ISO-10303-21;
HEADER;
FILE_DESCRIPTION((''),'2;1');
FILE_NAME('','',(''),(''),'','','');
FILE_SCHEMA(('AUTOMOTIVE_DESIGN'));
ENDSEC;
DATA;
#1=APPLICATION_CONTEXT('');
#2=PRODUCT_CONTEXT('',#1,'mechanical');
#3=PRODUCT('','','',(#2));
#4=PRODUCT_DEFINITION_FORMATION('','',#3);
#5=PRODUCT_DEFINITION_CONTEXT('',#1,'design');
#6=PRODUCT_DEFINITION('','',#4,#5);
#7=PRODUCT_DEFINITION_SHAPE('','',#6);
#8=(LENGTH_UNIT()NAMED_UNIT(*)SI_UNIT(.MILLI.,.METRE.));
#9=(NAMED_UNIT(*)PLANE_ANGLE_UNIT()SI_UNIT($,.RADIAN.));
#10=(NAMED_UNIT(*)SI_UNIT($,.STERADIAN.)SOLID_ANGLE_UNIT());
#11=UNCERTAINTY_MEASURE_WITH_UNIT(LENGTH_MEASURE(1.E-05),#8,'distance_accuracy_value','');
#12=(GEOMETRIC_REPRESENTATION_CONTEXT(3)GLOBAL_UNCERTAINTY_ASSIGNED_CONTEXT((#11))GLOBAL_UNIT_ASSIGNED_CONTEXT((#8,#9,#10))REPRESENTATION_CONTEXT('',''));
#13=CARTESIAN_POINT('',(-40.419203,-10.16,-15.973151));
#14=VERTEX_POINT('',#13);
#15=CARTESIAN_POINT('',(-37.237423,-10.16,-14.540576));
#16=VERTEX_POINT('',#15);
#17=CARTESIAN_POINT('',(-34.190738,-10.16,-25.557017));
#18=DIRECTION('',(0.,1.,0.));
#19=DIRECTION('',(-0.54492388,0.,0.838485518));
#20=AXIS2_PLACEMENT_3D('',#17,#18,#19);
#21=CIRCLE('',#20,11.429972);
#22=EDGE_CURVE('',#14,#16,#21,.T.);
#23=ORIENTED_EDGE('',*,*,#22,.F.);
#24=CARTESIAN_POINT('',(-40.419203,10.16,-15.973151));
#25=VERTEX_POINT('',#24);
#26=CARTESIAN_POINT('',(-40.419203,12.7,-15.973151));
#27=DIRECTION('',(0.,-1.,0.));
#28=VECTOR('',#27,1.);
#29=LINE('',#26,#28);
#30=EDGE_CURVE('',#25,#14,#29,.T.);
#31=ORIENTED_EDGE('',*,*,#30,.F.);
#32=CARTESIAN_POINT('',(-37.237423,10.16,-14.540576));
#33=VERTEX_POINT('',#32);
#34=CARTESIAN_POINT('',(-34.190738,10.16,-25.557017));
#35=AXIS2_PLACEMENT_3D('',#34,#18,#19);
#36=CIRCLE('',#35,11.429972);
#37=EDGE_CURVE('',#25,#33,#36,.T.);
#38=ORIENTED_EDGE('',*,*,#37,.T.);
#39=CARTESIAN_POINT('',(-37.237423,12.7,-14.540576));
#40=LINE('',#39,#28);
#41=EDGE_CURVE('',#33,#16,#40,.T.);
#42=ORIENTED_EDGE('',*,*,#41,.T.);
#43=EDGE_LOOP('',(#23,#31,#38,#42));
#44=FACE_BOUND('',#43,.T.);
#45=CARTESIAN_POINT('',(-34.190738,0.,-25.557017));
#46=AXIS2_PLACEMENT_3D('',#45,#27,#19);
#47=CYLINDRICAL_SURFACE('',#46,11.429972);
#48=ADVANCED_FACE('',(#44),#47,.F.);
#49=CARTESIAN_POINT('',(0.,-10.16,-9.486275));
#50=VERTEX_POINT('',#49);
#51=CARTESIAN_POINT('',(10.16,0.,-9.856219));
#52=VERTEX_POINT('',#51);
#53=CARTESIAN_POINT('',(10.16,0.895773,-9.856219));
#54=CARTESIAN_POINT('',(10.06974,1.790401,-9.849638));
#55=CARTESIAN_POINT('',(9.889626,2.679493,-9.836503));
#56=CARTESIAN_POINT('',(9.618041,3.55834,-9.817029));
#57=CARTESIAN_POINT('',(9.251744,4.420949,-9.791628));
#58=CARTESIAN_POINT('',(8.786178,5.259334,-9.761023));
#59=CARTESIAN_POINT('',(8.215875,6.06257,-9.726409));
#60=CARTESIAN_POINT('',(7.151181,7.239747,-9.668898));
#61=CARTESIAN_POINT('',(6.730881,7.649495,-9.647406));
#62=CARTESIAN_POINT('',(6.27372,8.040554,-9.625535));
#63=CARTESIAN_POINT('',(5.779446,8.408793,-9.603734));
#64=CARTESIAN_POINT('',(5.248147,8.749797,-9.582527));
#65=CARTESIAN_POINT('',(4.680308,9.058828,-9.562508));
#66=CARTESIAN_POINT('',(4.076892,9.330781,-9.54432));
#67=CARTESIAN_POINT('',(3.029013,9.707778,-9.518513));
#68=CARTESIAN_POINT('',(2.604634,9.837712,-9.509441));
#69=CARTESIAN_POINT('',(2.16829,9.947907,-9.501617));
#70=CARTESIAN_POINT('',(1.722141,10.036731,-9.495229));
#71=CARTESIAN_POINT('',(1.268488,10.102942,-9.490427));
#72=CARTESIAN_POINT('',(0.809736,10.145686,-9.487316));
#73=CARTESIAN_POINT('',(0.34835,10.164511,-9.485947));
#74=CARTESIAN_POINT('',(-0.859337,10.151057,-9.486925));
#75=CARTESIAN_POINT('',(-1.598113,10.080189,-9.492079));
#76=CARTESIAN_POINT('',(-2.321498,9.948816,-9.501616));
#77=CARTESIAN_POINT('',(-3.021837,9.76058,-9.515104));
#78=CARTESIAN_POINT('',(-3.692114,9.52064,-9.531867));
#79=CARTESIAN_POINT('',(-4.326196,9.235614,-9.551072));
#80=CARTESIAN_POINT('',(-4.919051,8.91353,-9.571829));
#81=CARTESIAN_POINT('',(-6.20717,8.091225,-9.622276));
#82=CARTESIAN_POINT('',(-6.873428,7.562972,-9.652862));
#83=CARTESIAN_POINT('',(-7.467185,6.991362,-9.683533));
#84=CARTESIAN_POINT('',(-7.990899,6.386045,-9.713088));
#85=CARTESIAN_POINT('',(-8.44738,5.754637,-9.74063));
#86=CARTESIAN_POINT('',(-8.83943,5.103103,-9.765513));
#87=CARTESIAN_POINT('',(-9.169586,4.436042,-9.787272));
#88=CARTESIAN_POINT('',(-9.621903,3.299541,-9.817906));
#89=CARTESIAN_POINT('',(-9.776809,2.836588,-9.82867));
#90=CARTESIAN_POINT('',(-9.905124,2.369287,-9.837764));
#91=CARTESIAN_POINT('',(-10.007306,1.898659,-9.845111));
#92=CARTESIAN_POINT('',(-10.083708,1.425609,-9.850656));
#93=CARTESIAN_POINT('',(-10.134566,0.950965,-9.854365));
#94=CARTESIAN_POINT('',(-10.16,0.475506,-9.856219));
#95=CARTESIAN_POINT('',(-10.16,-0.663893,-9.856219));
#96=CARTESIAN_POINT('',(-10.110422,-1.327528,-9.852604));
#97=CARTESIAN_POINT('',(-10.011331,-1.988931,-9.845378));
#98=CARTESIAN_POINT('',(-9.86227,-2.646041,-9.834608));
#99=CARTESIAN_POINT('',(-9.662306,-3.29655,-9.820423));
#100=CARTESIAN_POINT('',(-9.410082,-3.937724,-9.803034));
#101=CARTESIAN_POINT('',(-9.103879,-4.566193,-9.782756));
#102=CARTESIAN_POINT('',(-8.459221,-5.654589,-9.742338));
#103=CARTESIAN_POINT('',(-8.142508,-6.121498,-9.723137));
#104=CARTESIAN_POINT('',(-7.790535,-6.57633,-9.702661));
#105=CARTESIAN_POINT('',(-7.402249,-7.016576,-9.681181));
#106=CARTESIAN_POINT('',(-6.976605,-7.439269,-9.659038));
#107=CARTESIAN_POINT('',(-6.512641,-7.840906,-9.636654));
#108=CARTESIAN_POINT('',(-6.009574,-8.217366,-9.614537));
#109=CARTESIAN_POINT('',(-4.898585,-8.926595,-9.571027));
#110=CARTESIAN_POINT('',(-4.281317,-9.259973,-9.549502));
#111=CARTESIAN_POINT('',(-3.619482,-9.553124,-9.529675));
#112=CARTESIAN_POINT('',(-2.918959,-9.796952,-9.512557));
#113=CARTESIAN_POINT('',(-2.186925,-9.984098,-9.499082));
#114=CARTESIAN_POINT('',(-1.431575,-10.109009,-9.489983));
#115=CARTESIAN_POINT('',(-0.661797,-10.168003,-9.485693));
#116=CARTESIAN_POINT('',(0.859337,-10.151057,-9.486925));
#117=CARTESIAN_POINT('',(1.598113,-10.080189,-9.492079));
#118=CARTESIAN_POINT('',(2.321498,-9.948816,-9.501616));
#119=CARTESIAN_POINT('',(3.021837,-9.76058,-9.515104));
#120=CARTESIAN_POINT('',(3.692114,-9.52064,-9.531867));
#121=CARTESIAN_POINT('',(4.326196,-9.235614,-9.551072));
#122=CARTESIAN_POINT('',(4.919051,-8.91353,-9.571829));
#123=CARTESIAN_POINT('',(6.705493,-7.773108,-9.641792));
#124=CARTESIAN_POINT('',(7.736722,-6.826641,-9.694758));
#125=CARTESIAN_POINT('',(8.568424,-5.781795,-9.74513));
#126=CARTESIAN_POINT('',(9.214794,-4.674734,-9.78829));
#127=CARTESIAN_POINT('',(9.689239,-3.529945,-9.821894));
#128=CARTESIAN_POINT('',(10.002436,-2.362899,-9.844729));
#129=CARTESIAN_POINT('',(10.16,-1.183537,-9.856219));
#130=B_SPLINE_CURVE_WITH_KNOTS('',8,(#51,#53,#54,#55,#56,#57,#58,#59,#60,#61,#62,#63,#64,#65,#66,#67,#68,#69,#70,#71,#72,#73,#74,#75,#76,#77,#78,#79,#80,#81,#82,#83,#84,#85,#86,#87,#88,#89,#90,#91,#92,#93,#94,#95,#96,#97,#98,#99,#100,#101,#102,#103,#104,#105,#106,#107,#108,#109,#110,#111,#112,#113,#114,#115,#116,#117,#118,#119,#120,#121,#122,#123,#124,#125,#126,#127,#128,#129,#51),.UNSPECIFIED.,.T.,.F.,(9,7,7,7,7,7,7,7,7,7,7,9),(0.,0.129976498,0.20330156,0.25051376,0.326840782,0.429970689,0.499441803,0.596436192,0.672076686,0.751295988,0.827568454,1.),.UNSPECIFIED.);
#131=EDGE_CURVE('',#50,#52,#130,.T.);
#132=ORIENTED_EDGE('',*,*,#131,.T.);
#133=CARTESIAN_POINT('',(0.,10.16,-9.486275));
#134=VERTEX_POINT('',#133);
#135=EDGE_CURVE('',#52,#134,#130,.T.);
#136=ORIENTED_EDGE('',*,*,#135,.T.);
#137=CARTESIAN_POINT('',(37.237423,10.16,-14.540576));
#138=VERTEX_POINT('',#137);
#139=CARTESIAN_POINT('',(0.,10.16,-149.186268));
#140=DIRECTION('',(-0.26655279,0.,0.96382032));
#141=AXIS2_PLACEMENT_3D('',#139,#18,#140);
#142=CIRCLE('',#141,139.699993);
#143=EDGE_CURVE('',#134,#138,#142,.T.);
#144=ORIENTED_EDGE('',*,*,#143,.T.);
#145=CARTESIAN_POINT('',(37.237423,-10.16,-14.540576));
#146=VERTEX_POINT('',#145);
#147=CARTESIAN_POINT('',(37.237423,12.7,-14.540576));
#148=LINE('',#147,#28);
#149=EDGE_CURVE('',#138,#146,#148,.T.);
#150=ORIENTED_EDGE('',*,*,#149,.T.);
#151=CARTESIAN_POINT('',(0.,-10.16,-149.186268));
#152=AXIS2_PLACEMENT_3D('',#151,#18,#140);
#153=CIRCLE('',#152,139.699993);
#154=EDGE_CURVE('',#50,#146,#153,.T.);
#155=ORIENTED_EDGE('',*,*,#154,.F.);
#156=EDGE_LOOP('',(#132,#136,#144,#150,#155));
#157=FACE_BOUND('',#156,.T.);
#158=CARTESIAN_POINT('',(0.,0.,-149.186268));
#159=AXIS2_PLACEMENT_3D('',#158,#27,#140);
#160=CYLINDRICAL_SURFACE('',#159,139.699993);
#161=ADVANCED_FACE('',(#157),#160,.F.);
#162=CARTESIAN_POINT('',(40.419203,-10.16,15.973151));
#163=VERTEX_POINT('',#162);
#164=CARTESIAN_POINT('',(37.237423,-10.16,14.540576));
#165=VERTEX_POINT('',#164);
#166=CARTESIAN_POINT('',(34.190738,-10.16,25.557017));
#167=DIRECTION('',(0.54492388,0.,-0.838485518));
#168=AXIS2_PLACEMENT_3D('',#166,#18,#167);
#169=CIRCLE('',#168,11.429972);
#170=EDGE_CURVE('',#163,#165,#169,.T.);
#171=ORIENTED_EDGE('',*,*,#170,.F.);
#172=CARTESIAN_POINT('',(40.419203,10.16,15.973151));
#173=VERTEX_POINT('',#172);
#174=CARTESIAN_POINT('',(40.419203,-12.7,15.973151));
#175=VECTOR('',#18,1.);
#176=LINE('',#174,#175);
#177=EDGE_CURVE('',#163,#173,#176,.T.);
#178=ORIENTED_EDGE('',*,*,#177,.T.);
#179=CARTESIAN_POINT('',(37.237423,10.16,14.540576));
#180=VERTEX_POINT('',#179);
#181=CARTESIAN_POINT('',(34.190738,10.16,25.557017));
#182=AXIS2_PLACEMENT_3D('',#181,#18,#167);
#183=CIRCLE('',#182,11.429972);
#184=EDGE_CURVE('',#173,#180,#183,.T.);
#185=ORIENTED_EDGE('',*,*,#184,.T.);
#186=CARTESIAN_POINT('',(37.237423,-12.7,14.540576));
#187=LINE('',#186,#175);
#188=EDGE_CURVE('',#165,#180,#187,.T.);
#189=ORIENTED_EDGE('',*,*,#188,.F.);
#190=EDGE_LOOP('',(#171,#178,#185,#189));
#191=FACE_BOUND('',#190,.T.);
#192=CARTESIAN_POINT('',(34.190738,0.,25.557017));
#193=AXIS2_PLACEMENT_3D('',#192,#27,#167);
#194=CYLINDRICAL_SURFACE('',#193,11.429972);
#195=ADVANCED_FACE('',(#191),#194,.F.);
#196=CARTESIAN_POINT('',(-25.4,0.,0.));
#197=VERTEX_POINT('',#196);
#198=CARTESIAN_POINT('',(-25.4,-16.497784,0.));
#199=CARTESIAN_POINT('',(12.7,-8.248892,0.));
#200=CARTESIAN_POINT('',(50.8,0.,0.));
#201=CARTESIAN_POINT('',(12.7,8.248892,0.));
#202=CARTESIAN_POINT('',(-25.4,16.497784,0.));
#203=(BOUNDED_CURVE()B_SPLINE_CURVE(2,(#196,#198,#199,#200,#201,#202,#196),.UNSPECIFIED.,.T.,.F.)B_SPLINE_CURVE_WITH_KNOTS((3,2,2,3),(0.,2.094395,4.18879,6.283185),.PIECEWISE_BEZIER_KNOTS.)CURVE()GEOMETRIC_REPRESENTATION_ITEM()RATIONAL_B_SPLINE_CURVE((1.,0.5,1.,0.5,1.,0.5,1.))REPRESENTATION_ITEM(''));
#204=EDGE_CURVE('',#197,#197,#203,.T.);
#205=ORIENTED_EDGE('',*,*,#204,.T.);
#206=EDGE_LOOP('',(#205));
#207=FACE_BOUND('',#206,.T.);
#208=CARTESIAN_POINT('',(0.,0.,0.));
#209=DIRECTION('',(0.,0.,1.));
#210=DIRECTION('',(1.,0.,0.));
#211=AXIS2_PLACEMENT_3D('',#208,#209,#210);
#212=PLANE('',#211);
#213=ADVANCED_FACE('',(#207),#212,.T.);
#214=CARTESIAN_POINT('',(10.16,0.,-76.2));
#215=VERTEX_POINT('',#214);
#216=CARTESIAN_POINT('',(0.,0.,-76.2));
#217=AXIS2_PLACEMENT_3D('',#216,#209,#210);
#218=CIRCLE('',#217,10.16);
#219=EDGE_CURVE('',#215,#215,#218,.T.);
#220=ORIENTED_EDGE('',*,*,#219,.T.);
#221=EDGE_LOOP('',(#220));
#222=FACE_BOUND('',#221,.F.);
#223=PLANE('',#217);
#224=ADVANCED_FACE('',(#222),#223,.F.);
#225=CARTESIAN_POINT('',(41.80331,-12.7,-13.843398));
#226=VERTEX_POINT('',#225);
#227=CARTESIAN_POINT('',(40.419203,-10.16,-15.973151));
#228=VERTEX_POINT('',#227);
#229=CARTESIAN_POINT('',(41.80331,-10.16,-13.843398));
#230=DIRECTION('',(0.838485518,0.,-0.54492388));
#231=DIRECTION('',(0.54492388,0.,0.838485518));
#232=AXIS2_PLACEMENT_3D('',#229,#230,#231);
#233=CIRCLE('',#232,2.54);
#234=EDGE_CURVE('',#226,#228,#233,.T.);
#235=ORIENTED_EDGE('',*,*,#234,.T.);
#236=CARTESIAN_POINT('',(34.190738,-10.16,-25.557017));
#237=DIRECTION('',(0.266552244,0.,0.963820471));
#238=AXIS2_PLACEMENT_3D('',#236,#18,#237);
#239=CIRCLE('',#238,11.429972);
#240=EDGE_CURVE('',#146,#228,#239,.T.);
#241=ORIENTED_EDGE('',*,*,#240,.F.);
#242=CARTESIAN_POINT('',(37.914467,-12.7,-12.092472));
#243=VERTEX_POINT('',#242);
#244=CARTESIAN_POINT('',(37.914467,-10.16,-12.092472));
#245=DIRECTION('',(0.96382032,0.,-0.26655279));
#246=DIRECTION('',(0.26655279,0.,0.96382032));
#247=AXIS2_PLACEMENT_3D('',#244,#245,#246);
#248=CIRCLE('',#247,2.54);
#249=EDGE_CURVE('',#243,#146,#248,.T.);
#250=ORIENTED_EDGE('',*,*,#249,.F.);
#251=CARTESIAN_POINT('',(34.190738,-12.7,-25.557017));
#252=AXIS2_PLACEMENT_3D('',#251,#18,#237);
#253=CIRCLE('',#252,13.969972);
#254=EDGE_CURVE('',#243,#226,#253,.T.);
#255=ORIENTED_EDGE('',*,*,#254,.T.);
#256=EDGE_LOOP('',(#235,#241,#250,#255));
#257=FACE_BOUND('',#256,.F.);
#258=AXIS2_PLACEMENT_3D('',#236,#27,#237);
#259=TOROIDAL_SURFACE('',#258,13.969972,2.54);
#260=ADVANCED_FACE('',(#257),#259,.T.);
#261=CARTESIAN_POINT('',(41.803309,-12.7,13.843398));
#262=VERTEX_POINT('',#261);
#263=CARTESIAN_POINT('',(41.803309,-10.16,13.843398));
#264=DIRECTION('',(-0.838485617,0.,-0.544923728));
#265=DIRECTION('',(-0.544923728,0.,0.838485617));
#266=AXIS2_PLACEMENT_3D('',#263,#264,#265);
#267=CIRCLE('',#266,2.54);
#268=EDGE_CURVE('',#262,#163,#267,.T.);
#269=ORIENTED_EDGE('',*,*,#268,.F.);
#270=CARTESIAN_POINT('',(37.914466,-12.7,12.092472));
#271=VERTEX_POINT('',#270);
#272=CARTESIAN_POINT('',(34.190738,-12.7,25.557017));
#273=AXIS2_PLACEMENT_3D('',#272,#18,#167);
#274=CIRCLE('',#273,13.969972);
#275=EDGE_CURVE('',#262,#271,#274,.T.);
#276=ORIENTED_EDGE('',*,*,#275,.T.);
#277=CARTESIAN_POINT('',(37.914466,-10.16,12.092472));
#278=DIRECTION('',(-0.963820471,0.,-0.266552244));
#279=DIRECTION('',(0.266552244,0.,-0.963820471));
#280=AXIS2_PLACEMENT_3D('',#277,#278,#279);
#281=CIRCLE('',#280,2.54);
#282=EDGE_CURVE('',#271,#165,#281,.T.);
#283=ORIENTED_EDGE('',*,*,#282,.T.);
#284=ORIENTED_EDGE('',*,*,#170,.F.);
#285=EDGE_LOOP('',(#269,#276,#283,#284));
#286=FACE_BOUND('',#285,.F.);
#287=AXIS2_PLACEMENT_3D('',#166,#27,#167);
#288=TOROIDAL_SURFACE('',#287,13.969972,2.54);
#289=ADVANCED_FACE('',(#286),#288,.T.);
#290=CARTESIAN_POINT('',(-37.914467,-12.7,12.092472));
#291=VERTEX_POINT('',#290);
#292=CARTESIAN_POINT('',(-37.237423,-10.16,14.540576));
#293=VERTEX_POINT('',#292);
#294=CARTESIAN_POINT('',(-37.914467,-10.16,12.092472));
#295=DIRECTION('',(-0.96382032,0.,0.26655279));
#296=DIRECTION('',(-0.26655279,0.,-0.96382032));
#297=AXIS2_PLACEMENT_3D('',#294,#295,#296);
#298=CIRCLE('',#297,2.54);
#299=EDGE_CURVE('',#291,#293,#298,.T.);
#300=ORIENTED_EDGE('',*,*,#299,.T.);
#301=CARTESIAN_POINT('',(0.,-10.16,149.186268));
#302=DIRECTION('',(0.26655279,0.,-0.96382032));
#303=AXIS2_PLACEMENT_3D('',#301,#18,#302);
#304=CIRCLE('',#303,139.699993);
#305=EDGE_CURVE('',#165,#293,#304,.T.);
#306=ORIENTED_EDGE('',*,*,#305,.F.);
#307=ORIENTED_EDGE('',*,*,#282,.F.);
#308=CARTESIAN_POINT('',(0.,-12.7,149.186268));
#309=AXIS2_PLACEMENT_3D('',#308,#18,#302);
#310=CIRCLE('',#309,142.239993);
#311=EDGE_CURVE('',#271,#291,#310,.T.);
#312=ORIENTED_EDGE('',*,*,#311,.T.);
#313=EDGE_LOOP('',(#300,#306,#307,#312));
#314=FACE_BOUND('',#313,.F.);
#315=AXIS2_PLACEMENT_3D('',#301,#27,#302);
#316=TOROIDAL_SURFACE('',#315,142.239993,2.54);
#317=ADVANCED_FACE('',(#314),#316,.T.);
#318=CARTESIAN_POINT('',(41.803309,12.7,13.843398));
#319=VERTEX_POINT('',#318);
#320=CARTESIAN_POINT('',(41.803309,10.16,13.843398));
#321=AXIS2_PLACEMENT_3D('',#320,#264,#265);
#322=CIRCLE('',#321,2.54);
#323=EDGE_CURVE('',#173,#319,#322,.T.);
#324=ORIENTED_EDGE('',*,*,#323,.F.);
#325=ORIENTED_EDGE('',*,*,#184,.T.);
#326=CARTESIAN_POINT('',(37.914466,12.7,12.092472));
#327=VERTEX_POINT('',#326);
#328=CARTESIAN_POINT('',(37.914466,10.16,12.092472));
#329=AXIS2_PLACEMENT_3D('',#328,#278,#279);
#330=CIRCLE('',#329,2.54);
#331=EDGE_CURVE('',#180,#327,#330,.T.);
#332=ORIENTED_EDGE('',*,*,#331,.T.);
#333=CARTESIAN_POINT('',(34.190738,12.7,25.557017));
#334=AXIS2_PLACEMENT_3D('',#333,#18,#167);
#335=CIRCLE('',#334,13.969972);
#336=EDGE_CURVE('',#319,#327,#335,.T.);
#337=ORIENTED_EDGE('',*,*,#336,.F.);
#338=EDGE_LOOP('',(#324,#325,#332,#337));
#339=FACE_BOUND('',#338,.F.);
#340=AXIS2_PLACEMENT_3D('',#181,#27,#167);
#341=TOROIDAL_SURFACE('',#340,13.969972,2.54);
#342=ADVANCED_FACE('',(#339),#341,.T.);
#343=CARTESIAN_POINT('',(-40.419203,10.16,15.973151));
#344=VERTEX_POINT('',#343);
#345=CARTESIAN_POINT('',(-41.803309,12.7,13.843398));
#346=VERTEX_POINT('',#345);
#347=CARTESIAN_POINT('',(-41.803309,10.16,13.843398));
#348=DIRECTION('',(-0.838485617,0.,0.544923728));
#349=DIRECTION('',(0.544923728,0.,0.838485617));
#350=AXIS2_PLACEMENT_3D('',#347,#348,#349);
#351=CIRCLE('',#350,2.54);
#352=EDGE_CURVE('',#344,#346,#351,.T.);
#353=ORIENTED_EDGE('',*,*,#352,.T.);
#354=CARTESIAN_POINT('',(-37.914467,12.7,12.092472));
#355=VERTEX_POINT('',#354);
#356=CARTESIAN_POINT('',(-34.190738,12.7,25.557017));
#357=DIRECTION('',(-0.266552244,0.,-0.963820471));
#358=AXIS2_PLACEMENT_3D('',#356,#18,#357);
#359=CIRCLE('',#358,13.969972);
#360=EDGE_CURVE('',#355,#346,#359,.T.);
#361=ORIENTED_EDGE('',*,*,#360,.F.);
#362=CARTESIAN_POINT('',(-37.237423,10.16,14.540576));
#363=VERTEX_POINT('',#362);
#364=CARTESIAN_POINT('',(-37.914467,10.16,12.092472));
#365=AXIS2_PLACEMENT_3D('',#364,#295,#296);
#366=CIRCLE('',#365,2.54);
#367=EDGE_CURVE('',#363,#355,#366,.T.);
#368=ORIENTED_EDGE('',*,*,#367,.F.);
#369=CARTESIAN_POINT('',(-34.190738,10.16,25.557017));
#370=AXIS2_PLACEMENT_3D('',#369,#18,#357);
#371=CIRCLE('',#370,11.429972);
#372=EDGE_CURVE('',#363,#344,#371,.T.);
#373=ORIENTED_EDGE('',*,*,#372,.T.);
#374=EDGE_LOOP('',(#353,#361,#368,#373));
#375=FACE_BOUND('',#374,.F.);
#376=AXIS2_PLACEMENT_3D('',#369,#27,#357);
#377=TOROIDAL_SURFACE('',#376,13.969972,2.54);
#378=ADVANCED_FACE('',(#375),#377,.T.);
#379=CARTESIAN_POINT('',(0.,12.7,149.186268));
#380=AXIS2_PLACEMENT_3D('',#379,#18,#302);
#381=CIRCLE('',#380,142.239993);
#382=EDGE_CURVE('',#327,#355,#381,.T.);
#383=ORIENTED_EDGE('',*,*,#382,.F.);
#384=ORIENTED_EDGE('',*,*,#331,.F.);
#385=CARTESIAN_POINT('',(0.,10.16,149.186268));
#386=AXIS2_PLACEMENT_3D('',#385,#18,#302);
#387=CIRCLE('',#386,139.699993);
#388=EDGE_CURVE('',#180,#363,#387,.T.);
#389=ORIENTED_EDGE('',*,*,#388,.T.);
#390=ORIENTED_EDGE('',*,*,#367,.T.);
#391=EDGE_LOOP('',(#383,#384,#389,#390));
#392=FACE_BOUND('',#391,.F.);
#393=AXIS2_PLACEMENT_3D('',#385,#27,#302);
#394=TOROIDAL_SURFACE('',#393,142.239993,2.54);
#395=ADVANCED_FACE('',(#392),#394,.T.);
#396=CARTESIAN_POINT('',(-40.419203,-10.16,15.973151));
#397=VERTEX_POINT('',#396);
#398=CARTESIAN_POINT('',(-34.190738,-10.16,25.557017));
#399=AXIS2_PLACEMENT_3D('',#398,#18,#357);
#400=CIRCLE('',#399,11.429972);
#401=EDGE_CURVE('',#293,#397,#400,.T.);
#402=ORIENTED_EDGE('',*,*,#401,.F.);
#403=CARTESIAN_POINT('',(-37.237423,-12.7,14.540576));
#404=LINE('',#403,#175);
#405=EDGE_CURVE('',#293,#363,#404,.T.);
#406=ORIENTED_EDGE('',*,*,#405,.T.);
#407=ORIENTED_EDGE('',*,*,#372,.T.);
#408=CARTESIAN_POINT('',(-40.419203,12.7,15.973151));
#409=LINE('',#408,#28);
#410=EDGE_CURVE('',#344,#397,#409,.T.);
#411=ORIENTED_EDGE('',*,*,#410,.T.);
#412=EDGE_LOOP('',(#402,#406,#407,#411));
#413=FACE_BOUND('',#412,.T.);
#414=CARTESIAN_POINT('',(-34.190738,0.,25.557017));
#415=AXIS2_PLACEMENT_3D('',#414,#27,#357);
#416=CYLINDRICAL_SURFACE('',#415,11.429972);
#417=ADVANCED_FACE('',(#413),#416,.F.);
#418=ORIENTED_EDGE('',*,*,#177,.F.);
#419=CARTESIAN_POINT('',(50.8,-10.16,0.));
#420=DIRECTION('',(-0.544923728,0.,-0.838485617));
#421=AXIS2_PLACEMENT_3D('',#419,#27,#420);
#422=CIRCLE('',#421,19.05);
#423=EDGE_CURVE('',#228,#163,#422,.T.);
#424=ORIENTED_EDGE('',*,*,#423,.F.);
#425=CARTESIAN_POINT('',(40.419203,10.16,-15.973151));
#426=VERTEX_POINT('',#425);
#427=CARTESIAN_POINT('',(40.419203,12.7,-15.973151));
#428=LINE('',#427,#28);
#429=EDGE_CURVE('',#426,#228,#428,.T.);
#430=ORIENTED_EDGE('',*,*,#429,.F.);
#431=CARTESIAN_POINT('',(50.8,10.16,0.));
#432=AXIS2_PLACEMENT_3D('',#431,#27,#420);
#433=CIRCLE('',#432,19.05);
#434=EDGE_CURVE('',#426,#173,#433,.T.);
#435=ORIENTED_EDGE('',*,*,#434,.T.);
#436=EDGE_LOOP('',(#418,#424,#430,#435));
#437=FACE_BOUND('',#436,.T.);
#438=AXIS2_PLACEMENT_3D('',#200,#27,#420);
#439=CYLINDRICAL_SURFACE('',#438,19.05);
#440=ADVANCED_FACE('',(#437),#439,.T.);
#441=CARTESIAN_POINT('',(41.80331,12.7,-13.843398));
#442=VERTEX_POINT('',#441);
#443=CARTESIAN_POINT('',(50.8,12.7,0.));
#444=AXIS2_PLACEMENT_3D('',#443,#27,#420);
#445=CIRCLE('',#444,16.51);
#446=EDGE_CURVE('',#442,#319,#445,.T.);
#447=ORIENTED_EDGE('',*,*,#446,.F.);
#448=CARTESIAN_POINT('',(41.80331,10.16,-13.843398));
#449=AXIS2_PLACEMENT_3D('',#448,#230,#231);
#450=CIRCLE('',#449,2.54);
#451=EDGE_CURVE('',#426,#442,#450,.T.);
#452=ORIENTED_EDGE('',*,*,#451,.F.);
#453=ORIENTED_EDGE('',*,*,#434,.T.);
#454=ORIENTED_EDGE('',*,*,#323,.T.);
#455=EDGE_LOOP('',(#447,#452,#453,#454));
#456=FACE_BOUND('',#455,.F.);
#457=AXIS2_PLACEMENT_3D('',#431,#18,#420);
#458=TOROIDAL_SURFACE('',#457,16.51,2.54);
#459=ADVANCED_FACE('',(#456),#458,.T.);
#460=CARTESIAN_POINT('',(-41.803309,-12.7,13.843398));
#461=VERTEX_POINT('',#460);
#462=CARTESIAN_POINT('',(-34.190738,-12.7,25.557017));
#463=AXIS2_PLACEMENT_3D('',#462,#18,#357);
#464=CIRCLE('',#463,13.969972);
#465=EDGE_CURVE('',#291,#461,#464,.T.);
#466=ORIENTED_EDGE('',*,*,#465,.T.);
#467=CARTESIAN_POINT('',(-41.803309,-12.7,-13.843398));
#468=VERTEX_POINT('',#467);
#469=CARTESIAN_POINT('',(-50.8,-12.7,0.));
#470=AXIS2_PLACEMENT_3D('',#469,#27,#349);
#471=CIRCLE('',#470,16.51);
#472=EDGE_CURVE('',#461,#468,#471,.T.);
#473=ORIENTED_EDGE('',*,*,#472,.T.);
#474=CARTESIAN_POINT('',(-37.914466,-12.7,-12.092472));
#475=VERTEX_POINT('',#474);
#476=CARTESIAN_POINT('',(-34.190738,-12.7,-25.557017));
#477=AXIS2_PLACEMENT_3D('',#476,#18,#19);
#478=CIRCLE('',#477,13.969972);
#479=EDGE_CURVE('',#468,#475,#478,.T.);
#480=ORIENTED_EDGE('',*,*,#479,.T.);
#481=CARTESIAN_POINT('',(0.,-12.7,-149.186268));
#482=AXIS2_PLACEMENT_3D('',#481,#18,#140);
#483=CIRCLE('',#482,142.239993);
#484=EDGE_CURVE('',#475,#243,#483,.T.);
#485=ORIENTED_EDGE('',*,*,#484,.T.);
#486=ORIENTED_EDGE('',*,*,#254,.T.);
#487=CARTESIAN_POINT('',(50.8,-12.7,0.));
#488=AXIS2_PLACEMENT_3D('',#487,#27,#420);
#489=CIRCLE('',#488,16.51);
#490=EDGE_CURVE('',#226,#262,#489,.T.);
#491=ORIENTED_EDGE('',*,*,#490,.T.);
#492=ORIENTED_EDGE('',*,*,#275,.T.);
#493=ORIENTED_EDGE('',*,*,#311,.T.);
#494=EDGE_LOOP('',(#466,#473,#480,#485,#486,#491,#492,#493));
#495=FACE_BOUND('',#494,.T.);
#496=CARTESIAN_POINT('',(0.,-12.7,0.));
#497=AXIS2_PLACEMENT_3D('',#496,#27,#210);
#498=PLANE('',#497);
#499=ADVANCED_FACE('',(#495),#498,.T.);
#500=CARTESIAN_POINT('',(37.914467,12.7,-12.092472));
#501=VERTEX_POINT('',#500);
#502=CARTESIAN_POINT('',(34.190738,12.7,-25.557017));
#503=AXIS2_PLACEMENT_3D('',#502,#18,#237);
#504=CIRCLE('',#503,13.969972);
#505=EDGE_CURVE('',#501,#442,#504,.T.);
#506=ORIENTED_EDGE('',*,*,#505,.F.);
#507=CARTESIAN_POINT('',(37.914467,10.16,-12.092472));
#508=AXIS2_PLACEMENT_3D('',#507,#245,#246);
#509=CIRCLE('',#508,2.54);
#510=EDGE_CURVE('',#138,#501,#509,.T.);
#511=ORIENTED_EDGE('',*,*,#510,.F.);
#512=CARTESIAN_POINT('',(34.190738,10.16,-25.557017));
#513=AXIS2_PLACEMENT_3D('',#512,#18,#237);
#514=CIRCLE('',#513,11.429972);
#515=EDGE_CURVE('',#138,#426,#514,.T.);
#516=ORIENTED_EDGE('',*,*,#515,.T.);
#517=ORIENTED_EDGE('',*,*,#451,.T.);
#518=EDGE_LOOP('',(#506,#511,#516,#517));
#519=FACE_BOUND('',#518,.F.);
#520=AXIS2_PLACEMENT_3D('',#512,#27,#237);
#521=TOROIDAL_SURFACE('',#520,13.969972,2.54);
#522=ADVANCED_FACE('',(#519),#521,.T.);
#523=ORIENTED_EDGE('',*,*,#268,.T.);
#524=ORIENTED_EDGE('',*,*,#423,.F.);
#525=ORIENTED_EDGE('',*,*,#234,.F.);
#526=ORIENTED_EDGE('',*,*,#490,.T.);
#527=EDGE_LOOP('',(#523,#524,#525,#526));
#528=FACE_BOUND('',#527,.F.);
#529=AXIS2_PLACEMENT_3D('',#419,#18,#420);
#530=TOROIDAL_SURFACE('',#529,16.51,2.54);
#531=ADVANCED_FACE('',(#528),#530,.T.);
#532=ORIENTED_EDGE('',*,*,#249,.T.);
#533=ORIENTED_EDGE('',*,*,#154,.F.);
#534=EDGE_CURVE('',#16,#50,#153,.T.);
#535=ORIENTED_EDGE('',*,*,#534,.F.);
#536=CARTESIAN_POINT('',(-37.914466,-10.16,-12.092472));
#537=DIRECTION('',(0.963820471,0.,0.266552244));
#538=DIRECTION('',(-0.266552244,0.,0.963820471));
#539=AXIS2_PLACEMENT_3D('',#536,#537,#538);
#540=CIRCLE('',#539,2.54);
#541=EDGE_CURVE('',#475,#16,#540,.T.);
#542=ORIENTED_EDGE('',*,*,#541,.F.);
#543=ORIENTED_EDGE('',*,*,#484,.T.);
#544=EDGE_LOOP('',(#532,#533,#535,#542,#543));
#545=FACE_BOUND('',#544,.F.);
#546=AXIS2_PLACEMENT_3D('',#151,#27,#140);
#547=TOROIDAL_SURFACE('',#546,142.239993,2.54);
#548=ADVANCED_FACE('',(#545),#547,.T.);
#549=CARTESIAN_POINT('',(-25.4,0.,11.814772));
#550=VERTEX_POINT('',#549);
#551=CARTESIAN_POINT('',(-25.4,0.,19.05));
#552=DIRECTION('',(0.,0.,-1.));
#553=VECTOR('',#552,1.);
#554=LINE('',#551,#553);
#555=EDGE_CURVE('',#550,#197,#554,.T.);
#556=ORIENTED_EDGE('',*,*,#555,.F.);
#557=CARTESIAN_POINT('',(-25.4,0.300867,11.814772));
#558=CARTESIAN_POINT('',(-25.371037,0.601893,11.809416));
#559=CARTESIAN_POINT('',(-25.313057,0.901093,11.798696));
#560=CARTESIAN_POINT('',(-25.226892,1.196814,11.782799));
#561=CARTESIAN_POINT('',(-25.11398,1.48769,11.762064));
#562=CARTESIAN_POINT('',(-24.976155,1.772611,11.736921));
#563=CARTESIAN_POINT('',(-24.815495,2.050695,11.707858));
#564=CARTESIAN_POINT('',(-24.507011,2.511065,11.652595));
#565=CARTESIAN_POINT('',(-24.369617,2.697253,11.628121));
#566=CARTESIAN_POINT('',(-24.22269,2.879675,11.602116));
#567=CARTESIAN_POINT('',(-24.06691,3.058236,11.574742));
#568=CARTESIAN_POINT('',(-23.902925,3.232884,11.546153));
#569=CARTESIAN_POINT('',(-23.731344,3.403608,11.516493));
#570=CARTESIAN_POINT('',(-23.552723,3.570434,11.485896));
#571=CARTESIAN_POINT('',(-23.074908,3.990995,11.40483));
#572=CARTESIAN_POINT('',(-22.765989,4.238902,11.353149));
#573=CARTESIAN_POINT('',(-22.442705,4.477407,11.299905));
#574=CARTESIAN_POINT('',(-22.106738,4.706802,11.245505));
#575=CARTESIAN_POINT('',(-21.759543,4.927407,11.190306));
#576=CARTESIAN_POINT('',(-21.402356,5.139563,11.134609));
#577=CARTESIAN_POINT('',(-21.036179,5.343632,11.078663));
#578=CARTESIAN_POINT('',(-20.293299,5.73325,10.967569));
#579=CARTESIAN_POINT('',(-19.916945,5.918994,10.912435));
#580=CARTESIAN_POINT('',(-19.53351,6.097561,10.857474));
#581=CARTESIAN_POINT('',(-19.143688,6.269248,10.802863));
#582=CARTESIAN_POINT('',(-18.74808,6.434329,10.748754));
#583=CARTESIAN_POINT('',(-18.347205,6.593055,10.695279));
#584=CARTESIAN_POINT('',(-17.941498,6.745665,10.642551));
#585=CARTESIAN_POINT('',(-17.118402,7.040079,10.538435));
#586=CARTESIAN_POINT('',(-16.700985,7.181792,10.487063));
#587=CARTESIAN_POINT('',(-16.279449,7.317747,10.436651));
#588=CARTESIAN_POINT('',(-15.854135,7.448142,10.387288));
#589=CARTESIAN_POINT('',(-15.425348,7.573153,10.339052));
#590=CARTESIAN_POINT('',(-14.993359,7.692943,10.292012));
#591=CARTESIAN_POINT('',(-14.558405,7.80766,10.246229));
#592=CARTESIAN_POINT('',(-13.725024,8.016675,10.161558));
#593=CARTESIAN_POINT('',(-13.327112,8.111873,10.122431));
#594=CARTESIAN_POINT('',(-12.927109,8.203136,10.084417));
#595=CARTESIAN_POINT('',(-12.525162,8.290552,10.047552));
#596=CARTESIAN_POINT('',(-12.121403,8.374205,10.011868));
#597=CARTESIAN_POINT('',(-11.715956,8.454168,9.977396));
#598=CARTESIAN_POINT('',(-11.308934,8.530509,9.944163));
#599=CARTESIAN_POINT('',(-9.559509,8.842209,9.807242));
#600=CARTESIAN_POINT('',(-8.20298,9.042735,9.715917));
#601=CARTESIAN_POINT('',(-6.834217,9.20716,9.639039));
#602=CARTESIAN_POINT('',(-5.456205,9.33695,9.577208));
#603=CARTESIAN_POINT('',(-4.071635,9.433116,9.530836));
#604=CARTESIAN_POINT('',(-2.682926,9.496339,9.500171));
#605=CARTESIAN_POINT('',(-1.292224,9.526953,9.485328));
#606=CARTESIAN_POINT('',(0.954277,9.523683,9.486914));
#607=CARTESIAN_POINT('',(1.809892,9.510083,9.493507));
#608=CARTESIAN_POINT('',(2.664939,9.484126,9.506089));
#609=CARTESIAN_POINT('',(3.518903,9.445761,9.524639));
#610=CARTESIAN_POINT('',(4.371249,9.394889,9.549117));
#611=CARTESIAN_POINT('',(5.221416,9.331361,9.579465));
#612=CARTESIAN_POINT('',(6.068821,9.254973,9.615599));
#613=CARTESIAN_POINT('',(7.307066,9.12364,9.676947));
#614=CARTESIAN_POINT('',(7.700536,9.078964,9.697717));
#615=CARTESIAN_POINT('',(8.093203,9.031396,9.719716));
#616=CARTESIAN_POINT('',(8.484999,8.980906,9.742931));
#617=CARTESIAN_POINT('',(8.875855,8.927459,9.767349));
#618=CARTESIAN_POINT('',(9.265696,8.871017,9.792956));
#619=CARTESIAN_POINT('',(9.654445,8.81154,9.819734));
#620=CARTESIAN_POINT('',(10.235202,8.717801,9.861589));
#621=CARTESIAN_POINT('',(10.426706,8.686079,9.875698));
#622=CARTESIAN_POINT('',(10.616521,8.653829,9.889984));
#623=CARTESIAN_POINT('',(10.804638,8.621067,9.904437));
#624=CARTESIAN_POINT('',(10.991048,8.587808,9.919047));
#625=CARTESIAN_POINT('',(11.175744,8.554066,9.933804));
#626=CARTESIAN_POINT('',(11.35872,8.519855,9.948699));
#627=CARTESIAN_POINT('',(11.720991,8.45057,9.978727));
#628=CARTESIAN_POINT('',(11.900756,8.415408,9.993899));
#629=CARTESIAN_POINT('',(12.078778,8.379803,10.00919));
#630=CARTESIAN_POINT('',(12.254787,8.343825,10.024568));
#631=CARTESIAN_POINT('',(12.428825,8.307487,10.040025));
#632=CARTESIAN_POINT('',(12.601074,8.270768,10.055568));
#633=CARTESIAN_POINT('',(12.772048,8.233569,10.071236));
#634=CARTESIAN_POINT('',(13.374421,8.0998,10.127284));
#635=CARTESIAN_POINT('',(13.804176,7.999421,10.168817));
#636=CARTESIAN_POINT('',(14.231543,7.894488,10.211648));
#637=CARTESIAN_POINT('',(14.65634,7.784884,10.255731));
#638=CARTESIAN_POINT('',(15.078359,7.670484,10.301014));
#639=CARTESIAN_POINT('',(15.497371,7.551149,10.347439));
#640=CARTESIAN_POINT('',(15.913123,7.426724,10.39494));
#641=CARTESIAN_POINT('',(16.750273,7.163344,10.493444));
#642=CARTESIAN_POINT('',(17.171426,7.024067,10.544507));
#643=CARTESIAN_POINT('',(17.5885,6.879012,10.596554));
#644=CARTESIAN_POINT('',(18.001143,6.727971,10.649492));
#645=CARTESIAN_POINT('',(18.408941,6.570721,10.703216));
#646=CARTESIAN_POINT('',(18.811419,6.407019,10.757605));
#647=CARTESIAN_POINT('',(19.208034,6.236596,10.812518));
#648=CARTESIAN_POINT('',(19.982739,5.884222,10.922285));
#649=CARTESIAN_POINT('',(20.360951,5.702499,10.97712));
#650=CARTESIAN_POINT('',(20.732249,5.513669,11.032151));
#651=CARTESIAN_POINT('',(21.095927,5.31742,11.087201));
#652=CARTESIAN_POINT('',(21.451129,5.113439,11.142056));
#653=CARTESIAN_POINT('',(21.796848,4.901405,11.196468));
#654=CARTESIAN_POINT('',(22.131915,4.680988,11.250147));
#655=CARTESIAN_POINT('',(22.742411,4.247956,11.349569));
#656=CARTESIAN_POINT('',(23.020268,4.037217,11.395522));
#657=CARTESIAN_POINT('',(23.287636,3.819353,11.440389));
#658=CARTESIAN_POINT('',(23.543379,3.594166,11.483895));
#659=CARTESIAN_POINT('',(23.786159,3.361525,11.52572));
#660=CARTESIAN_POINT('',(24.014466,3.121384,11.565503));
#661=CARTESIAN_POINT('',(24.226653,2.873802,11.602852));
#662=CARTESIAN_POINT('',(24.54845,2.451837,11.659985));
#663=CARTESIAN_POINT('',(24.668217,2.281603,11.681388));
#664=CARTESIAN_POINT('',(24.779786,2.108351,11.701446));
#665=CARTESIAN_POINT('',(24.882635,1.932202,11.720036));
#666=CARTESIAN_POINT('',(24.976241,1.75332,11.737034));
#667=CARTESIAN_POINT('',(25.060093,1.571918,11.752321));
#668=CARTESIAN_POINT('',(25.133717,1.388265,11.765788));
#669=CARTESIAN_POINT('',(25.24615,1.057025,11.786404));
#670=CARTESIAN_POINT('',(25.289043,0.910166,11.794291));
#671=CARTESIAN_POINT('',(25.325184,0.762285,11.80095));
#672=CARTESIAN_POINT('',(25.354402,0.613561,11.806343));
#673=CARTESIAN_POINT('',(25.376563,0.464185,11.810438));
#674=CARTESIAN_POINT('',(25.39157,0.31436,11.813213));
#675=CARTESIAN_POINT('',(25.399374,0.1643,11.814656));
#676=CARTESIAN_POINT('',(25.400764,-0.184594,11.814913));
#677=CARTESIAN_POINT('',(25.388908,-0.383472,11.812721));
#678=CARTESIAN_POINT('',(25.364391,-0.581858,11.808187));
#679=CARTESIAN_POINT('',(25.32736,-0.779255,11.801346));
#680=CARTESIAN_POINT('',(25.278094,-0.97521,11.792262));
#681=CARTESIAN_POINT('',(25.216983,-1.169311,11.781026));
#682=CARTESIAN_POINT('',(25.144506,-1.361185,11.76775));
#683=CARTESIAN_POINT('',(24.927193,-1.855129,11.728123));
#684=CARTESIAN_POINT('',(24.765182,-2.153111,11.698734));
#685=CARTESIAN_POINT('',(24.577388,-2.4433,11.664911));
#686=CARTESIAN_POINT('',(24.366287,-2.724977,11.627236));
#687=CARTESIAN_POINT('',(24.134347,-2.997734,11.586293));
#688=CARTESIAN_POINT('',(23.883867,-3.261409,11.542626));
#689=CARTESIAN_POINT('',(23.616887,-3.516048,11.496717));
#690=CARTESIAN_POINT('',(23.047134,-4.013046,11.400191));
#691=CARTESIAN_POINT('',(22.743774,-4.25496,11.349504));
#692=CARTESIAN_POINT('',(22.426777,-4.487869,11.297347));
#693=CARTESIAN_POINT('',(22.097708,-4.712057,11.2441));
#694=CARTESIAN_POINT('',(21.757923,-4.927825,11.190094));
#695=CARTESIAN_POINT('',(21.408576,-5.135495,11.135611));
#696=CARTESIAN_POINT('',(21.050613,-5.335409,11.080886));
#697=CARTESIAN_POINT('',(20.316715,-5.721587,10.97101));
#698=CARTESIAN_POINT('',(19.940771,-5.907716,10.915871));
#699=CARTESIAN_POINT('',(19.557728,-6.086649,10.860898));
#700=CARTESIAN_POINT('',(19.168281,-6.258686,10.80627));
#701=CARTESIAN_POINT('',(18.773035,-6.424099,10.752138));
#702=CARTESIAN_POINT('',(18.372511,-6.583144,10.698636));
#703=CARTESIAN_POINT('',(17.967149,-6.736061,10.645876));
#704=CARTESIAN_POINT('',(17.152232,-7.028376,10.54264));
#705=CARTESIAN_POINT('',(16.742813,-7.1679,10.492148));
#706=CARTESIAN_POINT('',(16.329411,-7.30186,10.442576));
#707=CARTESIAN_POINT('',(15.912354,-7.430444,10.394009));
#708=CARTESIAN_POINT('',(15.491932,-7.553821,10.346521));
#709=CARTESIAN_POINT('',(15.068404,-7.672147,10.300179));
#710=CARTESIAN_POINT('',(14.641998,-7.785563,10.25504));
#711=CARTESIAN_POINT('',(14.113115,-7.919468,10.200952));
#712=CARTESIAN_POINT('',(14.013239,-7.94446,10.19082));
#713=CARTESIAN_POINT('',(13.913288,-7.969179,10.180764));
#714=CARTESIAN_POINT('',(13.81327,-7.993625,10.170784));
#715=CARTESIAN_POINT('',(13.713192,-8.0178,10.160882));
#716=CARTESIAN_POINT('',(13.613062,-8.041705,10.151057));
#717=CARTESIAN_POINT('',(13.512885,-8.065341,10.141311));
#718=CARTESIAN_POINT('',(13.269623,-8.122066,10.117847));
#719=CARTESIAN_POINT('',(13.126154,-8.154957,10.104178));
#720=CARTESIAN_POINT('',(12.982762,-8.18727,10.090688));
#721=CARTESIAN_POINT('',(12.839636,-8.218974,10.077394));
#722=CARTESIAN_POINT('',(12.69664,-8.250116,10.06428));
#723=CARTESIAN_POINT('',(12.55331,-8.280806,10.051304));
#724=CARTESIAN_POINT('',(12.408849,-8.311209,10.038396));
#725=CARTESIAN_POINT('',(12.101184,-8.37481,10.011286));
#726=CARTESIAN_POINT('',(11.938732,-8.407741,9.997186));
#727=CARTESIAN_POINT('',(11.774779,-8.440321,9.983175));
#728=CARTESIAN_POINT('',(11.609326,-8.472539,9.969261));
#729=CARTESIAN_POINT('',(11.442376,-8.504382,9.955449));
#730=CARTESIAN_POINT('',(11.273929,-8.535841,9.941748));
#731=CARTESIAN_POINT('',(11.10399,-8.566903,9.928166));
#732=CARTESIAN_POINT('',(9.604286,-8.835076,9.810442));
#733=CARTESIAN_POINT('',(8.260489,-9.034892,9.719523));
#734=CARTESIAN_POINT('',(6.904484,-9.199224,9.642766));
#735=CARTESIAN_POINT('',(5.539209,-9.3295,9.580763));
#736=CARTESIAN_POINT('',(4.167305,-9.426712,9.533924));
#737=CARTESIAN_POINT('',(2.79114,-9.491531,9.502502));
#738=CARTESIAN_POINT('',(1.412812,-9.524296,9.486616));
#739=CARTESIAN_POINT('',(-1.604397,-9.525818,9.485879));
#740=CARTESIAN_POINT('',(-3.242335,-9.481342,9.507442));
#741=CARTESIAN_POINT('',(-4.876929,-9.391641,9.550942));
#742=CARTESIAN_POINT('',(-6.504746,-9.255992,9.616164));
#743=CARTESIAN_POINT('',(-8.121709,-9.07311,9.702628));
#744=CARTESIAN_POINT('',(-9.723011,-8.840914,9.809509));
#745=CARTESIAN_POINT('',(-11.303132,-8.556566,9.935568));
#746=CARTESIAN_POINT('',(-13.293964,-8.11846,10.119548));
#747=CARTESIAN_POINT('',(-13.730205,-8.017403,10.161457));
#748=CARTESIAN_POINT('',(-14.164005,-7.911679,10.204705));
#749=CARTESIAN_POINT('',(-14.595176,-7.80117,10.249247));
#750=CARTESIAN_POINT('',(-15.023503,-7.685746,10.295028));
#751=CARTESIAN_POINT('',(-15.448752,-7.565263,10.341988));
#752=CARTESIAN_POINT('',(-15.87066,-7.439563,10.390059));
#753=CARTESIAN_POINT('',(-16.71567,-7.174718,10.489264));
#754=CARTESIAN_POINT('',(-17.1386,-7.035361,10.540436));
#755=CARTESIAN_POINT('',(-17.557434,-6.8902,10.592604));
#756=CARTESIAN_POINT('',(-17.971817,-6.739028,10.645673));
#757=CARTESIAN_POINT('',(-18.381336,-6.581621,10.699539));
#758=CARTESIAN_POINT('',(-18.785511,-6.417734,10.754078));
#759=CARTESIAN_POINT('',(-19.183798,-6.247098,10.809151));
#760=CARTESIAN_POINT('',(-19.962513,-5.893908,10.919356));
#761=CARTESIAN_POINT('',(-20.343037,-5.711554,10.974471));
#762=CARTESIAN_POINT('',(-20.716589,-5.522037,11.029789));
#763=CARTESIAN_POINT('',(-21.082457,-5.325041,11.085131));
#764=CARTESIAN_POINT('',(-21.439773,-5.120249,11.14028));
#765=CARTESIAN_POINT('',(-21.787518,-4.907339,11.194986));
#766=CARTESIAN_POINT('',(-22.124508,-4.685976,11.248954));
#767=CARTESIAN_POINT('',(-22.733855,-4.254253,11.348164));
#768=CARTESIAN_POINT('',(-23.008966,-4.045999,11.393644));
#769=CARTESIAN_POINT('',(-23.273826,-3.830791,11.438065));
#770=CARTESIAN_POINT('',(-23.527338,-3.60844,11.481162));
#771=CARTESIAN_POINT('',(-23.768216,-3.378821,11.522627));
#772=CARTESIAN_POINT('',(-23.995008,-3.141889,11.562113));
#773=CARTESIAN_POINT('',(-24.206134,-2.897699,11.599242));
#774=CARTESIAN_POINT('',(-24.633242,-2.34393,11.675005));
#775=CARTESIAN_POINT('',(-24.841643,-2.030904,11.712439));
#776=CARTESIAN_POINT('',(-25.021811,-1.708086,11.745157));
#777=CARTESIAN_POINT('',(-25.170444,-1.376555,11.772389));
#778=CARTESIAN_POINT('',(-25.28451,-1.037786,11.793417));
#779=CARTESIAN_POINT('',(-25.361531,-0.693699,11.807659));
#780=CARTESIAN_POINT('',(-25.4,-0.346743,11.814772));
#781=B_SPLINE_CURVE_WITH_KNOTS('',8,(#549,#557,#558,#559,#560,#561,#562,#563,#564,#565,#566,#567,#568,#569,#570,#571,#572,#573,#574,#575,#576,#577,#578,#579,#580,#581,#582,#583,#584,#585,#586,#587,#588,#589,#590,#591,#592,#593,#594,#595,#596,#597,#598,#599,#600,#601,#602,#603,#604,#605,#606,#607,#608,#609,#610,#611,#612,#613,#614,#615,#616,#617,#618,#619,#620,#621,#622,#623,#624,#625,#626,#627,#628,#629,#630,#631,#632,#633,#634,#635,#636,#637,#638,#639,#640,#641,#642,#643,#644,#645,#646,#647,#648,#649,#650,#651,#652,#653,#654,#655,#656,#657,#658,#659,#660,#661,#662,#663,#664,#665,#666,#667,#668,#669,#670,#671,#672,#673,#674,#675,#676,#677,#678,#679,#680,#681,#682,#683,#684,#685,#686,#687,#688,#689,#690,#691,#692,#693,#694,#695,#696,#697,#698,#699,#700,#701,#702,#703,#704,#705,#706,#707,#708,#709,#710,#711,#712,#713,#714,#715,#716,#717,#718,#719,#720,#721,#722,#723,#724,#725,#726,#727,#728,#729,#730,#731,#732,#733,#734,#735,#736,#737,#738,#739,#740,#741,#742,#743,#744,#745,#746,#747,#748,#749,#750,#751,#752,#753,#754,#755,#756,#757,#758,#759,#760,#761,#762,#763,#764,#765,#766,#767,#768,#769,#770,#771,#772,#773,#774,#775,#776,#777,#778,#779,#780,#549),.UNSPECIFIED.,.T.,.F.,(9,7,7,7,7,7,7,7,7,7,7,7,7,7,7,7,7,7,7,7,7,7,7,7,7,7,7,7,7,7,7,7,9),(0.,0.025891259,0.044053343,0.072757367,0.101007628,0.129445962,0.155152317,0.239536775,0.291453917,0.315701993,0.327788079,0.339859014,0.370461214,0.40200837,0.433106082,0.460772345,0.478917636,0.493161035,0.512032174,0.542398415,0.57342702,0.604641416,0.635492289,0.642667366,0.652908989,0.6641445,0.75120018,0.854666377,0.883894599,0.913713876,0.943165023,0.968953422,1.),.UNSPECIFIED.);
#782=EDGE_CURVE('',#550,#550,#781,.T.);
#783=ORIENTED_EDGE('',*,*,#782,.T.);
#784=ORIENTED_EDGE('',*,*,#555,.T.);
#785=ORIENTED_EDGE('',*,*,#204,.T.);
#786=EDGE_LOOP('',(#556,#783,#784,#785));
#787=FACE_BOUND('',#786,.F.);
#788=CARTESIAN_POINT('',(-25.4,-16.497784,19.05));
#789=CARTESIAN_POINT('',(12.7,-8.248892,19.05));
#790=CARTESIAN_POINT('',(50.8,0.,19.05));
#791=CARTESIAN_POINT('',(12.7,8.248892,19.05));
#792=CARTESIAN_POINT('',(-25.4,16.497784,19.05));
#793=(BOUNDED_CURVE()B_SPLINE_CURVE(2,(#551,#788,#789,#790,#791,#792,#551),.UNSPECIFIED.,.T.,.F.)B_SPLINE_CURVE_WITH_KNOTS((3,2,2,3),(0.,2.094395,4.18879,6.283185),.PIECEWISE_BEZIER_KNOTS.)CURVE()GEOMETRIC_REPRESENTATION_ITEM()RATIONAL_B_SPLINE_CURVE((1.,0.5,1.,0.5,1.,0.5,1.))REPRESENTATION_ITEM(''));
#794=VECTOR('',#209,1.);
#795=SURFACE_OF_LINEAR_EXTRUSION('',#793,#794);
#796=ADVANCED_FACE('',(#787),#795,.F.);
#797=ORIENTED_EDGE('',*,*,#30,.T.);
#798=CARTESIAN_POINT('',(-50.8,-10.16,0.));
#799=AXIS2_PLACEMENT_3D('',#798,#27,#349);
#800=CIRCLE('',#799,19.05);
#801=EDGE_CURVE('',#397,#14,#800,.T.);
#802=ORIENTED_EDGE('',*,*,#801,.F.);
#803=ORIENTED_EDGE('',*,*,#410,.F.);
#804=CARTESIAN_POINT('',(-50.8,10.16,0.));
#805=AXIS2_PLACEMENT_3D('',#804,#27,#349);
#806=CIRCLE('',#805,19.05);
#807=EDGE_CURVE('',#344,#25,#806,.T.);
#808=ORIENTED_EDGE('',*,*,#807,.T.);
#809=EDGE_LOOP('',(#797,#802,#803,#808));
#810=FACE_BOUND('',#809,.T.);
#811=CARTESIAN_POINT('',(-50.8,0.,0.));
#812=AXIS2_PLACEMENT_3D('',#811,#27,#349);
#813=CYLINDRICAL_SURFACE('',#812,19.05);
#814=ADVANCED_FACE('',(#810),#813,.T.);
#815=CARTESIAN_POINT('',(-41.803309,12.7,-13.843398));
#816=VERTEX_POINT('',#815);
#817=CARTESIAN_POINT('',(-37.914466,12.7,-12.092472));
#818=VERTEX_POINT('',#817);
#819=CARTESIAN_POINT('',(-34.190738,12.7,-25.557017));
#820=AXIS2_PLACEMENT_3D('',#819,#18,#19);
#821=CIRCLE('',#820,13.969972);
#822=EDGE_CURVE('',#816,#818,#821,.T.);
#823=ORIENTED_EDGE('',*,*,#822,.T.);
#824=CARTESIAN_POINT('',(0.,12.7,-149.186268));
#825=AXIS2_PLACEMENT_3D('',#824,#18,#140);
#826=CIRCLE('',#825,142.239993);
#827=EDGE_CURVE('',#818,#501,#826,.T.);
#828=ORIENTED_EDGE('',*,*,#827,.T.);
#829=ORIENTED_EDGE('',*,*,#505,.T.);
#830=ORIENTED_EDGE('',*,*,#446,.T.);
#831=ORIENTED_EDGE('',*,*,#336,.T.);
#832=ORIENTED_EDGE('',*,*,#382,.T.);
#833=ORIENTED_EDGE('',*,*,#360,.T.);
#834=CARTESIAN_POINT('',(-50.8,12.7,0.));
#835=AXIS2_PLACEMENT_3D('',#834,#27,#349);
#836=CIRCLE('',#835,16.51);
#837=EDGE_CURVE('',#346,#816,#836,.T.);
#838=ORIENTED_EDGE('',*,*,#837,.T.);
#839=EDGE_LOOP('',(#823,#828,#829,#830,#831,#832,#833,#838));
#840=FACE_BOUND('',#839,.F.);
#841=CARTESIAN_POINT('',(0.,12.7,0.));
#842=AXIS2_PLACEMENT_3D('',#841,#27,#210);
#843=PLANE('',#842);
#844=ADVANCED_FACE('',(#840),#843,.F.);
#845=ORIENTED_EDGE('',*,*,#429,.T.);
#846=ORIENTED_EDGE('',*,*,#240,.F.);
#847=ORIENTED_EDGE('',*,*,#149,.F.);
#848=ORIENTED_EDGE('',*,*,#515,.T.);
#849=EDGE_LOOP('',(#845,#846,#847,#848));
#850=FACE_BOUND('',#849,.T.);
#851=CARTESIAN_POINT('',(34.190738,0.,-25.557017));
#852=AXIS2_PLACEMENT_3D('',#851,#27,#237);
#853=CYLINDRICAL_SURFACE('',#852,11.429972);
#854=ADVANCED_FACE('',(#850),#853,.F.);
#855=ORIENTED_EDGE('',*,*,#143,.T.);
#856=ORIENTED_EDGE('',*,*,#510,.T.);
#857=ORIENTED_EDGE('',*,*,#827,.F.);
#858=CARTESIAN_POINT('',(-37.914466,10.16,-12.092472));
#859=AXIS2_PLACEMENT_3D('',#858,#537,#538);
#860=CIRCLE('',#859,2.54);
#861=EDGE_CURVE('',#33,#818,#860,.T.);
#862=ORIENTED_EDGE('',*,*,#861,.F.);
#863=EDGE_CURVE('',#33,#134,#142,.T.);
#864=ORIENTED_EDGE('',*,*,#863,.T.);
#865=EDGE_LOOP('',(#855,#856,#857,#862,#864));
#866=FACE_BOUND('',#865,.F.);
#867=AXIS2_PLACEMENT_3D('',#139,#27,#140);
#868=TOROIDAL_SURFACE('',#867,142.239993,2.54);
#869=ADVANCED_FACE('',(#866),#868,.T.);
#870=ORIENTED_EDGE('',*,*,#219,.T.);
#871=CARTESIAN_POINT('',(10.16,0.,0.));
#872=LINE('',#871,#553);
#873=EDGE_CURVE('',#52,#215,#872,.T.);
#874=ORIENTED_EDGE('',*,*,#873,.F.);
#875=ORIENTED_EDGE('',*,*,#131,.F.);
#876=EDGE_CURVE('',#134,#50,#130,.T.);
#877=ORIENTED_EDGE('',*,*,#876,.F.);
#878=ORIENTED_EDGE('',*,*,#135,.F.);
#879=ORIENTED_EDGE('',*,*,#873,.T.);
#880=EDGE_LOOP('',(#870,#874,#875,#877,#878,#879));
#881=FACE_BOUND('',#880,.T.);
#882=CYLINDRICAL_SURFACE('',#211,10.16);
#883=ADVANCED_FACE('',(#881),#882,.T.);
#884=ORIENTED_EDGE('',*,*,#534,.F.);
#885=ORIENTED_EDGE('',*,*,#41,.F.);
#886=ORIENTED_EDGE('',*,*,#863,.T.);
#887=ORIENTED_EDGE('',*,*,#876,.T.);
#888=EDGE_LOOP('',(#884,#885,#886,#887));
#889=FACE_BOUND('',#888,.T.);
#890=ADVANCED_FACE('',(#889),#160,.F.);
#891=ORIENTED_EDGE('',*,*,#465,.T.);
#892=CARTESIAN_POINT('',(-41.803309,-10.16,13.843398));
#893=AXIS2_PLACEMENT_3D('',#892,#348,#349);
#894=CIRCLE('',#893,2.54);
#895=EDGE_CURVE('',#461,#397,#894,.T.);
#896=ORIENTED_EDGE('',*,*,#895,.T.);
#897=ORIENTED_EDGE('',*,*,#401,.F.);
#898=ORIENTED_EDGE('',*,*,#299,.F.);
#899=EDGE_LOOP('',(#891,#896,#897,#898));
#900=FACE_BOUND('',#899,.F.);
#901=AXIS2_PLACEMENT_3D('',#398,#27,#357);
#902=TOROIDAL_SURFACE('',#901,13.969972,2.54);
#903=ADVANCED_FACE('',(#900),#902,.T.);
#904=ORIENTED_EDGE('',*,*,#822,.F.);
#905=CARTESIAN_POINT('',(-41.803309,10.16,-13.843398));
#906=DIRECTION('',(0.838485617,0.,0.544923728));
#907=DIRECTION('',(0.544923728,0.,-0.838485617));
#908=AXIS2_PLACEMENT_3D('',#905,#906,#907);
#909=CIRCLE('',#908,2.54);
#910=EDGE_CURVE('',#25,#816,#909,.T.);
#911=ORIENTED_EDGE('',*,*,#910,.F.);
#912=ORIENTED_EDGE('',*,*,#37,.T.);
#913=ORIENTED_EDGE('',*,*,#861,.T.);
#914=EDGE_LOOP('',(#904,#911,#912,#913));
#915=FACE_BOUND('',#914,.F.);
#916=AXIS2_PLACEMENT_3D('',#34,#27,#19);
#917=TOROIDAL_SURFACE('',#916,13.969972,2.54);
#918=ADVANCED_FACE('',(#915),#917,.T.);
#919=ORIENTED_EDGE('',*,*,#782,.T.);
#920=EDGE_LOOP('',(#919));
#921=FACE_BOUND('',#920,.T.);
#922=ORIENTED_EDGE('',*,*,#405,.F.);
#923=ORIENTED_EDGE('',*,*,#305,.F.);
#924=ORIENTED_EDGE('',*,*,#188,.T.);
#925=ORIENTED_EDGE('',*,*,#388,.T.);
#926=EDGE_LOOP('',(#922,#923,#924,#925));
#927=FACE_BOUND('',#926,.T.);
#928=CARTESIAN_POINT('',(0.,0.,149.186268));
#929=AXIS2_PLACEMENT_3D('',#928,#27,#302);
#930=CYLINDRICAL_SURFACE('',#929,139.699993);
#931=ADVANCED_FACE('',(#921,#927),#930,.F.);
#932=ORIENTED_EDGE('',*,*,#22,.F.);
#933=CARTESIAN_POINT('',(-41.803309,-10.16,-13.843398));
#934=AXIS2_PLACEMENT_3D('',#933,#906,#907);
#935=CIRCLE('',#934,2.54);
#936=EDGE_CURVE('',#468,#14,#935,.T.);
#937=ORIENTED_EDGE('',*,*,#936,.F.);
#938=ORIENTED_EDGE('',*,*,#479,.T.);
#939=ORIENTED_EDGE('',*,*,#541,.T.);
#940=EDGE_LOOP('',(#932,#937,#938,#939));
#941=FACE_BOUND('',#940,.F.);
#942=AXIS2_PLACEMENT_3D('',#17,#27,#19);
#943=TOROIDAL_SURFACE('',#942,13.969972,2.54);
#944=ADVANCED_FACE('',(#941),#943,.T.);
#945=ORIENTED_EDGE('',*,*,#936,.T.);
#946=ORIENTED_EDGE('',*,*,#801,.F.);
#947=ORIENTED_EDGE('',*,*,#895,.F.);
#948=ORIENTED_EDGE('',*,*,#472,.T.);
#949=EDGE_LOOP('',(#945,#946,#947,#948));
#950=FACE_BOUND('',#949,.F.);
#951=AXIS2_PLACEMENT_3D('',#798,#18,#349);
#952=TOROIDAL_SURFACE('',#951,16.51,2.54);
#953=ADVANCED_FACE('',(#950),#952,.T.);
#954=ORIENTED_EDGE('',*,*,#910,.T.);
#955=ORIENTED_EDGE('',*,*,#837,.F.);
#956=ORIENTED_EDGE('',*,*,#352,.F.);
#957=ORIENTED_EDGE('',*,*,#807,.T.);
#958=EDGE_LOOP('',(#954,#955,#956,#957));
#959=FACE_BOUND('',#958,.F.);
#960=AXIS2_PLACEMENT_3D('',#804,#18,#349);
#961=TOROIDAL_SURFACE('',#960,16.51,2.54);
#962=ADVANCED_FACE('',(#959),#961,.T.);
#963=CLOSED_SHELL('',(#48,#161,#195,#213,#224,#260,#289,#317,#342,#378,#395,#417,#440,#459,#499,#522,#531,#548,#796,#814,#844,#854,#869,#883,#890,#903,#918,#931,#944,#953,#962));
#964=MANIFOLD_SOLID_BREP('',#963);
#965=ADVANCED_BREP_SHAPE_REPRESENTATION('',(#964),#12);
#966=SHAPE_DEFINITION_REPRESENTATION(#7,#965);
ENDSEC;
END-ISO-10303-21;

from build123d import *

# Parameters (mm, degrees)
F1_DEPTH = 12.7
F2_R     = 2.54
F3_R     = 10.16
F4_DEPTH = 76.2
F7_DEPTH = 19.05


with BuildPart() as f1:
    # F0 (on Front) → F1 (new body, symmetric)
    with BuildSketch(Plane.XZ):
        with BuildLine():
            ThreePointArc((-37.237423, 14.540576), (-38.883304, 15.134729), (-40.419203, 15.973151))
            ThreePointArc((-40.419203, 15.973151), (-69.85, 0), (-40.419203, -15.973151))
            ThreePointArc((-40.419203, -15.973151), (-38.883304, -15.134729), (-37.237423, -14.540576))
            ThreePointArc((-37.237423, -14.540576), (0, -9.486275), (37.237423, -14.540576))
            ThreePointArc((37.237423, -14.540576), (38.883304, -15.134729), (40.419203, -15.973151))
            ThreePointArc((40.419203, -15.973151), (69.85, 0), (40.419203, 15.973151))
            ThreePointArc((40.419203, 15.973151), (38.883304, 15.134729), (37.237423, 14.540576))
            ThreePointArc((37.237423, 14.540576), (0, 9.486275), (-37.237423, 14.540576))
        make_face()
    extrude(amount=F1_DEPTH, both=True)

    # F2
    f2_edges = [f1.edges().sort_by_distance(p)[0] for p in [
        (-69.85, -12.7, 0),
        (-69.85, 12.7, 0),
    ]]
    fillet(f2_edges, radius=F2_R)

    # F3 (on Top) → F4 (join)
    with BuildSketch(Plane.XY):
        Circle(F3_R)
    extrude(amount=-F4_DEPTH)

    # F6 (on offset) → F7 (cut)
    with BuildSketch(Plane.XY.offset(19.05)):
        with BuildLine():
            add(Edge.make_bspline(
                [(-25.4, 0), (-25.4, -16.497784), (12.7, -8.248892), (50.8, 0), (12.7, 8.248892), (-25.4, 16.497784), (-25.4, 0)],
                knots=[0, 0, 0, 2.094395, 2.094395, 4.18879, 4.18879, 6.283185, 6.283185, 6.283185], degree=2, weights=[1, 0.5, 1, 0.5, 1, 0.5, 1]))
        make_face()
    extrude(amount=-F7_DEPTH, mode=Mode.SUBTRACT)


solid = f1.part
